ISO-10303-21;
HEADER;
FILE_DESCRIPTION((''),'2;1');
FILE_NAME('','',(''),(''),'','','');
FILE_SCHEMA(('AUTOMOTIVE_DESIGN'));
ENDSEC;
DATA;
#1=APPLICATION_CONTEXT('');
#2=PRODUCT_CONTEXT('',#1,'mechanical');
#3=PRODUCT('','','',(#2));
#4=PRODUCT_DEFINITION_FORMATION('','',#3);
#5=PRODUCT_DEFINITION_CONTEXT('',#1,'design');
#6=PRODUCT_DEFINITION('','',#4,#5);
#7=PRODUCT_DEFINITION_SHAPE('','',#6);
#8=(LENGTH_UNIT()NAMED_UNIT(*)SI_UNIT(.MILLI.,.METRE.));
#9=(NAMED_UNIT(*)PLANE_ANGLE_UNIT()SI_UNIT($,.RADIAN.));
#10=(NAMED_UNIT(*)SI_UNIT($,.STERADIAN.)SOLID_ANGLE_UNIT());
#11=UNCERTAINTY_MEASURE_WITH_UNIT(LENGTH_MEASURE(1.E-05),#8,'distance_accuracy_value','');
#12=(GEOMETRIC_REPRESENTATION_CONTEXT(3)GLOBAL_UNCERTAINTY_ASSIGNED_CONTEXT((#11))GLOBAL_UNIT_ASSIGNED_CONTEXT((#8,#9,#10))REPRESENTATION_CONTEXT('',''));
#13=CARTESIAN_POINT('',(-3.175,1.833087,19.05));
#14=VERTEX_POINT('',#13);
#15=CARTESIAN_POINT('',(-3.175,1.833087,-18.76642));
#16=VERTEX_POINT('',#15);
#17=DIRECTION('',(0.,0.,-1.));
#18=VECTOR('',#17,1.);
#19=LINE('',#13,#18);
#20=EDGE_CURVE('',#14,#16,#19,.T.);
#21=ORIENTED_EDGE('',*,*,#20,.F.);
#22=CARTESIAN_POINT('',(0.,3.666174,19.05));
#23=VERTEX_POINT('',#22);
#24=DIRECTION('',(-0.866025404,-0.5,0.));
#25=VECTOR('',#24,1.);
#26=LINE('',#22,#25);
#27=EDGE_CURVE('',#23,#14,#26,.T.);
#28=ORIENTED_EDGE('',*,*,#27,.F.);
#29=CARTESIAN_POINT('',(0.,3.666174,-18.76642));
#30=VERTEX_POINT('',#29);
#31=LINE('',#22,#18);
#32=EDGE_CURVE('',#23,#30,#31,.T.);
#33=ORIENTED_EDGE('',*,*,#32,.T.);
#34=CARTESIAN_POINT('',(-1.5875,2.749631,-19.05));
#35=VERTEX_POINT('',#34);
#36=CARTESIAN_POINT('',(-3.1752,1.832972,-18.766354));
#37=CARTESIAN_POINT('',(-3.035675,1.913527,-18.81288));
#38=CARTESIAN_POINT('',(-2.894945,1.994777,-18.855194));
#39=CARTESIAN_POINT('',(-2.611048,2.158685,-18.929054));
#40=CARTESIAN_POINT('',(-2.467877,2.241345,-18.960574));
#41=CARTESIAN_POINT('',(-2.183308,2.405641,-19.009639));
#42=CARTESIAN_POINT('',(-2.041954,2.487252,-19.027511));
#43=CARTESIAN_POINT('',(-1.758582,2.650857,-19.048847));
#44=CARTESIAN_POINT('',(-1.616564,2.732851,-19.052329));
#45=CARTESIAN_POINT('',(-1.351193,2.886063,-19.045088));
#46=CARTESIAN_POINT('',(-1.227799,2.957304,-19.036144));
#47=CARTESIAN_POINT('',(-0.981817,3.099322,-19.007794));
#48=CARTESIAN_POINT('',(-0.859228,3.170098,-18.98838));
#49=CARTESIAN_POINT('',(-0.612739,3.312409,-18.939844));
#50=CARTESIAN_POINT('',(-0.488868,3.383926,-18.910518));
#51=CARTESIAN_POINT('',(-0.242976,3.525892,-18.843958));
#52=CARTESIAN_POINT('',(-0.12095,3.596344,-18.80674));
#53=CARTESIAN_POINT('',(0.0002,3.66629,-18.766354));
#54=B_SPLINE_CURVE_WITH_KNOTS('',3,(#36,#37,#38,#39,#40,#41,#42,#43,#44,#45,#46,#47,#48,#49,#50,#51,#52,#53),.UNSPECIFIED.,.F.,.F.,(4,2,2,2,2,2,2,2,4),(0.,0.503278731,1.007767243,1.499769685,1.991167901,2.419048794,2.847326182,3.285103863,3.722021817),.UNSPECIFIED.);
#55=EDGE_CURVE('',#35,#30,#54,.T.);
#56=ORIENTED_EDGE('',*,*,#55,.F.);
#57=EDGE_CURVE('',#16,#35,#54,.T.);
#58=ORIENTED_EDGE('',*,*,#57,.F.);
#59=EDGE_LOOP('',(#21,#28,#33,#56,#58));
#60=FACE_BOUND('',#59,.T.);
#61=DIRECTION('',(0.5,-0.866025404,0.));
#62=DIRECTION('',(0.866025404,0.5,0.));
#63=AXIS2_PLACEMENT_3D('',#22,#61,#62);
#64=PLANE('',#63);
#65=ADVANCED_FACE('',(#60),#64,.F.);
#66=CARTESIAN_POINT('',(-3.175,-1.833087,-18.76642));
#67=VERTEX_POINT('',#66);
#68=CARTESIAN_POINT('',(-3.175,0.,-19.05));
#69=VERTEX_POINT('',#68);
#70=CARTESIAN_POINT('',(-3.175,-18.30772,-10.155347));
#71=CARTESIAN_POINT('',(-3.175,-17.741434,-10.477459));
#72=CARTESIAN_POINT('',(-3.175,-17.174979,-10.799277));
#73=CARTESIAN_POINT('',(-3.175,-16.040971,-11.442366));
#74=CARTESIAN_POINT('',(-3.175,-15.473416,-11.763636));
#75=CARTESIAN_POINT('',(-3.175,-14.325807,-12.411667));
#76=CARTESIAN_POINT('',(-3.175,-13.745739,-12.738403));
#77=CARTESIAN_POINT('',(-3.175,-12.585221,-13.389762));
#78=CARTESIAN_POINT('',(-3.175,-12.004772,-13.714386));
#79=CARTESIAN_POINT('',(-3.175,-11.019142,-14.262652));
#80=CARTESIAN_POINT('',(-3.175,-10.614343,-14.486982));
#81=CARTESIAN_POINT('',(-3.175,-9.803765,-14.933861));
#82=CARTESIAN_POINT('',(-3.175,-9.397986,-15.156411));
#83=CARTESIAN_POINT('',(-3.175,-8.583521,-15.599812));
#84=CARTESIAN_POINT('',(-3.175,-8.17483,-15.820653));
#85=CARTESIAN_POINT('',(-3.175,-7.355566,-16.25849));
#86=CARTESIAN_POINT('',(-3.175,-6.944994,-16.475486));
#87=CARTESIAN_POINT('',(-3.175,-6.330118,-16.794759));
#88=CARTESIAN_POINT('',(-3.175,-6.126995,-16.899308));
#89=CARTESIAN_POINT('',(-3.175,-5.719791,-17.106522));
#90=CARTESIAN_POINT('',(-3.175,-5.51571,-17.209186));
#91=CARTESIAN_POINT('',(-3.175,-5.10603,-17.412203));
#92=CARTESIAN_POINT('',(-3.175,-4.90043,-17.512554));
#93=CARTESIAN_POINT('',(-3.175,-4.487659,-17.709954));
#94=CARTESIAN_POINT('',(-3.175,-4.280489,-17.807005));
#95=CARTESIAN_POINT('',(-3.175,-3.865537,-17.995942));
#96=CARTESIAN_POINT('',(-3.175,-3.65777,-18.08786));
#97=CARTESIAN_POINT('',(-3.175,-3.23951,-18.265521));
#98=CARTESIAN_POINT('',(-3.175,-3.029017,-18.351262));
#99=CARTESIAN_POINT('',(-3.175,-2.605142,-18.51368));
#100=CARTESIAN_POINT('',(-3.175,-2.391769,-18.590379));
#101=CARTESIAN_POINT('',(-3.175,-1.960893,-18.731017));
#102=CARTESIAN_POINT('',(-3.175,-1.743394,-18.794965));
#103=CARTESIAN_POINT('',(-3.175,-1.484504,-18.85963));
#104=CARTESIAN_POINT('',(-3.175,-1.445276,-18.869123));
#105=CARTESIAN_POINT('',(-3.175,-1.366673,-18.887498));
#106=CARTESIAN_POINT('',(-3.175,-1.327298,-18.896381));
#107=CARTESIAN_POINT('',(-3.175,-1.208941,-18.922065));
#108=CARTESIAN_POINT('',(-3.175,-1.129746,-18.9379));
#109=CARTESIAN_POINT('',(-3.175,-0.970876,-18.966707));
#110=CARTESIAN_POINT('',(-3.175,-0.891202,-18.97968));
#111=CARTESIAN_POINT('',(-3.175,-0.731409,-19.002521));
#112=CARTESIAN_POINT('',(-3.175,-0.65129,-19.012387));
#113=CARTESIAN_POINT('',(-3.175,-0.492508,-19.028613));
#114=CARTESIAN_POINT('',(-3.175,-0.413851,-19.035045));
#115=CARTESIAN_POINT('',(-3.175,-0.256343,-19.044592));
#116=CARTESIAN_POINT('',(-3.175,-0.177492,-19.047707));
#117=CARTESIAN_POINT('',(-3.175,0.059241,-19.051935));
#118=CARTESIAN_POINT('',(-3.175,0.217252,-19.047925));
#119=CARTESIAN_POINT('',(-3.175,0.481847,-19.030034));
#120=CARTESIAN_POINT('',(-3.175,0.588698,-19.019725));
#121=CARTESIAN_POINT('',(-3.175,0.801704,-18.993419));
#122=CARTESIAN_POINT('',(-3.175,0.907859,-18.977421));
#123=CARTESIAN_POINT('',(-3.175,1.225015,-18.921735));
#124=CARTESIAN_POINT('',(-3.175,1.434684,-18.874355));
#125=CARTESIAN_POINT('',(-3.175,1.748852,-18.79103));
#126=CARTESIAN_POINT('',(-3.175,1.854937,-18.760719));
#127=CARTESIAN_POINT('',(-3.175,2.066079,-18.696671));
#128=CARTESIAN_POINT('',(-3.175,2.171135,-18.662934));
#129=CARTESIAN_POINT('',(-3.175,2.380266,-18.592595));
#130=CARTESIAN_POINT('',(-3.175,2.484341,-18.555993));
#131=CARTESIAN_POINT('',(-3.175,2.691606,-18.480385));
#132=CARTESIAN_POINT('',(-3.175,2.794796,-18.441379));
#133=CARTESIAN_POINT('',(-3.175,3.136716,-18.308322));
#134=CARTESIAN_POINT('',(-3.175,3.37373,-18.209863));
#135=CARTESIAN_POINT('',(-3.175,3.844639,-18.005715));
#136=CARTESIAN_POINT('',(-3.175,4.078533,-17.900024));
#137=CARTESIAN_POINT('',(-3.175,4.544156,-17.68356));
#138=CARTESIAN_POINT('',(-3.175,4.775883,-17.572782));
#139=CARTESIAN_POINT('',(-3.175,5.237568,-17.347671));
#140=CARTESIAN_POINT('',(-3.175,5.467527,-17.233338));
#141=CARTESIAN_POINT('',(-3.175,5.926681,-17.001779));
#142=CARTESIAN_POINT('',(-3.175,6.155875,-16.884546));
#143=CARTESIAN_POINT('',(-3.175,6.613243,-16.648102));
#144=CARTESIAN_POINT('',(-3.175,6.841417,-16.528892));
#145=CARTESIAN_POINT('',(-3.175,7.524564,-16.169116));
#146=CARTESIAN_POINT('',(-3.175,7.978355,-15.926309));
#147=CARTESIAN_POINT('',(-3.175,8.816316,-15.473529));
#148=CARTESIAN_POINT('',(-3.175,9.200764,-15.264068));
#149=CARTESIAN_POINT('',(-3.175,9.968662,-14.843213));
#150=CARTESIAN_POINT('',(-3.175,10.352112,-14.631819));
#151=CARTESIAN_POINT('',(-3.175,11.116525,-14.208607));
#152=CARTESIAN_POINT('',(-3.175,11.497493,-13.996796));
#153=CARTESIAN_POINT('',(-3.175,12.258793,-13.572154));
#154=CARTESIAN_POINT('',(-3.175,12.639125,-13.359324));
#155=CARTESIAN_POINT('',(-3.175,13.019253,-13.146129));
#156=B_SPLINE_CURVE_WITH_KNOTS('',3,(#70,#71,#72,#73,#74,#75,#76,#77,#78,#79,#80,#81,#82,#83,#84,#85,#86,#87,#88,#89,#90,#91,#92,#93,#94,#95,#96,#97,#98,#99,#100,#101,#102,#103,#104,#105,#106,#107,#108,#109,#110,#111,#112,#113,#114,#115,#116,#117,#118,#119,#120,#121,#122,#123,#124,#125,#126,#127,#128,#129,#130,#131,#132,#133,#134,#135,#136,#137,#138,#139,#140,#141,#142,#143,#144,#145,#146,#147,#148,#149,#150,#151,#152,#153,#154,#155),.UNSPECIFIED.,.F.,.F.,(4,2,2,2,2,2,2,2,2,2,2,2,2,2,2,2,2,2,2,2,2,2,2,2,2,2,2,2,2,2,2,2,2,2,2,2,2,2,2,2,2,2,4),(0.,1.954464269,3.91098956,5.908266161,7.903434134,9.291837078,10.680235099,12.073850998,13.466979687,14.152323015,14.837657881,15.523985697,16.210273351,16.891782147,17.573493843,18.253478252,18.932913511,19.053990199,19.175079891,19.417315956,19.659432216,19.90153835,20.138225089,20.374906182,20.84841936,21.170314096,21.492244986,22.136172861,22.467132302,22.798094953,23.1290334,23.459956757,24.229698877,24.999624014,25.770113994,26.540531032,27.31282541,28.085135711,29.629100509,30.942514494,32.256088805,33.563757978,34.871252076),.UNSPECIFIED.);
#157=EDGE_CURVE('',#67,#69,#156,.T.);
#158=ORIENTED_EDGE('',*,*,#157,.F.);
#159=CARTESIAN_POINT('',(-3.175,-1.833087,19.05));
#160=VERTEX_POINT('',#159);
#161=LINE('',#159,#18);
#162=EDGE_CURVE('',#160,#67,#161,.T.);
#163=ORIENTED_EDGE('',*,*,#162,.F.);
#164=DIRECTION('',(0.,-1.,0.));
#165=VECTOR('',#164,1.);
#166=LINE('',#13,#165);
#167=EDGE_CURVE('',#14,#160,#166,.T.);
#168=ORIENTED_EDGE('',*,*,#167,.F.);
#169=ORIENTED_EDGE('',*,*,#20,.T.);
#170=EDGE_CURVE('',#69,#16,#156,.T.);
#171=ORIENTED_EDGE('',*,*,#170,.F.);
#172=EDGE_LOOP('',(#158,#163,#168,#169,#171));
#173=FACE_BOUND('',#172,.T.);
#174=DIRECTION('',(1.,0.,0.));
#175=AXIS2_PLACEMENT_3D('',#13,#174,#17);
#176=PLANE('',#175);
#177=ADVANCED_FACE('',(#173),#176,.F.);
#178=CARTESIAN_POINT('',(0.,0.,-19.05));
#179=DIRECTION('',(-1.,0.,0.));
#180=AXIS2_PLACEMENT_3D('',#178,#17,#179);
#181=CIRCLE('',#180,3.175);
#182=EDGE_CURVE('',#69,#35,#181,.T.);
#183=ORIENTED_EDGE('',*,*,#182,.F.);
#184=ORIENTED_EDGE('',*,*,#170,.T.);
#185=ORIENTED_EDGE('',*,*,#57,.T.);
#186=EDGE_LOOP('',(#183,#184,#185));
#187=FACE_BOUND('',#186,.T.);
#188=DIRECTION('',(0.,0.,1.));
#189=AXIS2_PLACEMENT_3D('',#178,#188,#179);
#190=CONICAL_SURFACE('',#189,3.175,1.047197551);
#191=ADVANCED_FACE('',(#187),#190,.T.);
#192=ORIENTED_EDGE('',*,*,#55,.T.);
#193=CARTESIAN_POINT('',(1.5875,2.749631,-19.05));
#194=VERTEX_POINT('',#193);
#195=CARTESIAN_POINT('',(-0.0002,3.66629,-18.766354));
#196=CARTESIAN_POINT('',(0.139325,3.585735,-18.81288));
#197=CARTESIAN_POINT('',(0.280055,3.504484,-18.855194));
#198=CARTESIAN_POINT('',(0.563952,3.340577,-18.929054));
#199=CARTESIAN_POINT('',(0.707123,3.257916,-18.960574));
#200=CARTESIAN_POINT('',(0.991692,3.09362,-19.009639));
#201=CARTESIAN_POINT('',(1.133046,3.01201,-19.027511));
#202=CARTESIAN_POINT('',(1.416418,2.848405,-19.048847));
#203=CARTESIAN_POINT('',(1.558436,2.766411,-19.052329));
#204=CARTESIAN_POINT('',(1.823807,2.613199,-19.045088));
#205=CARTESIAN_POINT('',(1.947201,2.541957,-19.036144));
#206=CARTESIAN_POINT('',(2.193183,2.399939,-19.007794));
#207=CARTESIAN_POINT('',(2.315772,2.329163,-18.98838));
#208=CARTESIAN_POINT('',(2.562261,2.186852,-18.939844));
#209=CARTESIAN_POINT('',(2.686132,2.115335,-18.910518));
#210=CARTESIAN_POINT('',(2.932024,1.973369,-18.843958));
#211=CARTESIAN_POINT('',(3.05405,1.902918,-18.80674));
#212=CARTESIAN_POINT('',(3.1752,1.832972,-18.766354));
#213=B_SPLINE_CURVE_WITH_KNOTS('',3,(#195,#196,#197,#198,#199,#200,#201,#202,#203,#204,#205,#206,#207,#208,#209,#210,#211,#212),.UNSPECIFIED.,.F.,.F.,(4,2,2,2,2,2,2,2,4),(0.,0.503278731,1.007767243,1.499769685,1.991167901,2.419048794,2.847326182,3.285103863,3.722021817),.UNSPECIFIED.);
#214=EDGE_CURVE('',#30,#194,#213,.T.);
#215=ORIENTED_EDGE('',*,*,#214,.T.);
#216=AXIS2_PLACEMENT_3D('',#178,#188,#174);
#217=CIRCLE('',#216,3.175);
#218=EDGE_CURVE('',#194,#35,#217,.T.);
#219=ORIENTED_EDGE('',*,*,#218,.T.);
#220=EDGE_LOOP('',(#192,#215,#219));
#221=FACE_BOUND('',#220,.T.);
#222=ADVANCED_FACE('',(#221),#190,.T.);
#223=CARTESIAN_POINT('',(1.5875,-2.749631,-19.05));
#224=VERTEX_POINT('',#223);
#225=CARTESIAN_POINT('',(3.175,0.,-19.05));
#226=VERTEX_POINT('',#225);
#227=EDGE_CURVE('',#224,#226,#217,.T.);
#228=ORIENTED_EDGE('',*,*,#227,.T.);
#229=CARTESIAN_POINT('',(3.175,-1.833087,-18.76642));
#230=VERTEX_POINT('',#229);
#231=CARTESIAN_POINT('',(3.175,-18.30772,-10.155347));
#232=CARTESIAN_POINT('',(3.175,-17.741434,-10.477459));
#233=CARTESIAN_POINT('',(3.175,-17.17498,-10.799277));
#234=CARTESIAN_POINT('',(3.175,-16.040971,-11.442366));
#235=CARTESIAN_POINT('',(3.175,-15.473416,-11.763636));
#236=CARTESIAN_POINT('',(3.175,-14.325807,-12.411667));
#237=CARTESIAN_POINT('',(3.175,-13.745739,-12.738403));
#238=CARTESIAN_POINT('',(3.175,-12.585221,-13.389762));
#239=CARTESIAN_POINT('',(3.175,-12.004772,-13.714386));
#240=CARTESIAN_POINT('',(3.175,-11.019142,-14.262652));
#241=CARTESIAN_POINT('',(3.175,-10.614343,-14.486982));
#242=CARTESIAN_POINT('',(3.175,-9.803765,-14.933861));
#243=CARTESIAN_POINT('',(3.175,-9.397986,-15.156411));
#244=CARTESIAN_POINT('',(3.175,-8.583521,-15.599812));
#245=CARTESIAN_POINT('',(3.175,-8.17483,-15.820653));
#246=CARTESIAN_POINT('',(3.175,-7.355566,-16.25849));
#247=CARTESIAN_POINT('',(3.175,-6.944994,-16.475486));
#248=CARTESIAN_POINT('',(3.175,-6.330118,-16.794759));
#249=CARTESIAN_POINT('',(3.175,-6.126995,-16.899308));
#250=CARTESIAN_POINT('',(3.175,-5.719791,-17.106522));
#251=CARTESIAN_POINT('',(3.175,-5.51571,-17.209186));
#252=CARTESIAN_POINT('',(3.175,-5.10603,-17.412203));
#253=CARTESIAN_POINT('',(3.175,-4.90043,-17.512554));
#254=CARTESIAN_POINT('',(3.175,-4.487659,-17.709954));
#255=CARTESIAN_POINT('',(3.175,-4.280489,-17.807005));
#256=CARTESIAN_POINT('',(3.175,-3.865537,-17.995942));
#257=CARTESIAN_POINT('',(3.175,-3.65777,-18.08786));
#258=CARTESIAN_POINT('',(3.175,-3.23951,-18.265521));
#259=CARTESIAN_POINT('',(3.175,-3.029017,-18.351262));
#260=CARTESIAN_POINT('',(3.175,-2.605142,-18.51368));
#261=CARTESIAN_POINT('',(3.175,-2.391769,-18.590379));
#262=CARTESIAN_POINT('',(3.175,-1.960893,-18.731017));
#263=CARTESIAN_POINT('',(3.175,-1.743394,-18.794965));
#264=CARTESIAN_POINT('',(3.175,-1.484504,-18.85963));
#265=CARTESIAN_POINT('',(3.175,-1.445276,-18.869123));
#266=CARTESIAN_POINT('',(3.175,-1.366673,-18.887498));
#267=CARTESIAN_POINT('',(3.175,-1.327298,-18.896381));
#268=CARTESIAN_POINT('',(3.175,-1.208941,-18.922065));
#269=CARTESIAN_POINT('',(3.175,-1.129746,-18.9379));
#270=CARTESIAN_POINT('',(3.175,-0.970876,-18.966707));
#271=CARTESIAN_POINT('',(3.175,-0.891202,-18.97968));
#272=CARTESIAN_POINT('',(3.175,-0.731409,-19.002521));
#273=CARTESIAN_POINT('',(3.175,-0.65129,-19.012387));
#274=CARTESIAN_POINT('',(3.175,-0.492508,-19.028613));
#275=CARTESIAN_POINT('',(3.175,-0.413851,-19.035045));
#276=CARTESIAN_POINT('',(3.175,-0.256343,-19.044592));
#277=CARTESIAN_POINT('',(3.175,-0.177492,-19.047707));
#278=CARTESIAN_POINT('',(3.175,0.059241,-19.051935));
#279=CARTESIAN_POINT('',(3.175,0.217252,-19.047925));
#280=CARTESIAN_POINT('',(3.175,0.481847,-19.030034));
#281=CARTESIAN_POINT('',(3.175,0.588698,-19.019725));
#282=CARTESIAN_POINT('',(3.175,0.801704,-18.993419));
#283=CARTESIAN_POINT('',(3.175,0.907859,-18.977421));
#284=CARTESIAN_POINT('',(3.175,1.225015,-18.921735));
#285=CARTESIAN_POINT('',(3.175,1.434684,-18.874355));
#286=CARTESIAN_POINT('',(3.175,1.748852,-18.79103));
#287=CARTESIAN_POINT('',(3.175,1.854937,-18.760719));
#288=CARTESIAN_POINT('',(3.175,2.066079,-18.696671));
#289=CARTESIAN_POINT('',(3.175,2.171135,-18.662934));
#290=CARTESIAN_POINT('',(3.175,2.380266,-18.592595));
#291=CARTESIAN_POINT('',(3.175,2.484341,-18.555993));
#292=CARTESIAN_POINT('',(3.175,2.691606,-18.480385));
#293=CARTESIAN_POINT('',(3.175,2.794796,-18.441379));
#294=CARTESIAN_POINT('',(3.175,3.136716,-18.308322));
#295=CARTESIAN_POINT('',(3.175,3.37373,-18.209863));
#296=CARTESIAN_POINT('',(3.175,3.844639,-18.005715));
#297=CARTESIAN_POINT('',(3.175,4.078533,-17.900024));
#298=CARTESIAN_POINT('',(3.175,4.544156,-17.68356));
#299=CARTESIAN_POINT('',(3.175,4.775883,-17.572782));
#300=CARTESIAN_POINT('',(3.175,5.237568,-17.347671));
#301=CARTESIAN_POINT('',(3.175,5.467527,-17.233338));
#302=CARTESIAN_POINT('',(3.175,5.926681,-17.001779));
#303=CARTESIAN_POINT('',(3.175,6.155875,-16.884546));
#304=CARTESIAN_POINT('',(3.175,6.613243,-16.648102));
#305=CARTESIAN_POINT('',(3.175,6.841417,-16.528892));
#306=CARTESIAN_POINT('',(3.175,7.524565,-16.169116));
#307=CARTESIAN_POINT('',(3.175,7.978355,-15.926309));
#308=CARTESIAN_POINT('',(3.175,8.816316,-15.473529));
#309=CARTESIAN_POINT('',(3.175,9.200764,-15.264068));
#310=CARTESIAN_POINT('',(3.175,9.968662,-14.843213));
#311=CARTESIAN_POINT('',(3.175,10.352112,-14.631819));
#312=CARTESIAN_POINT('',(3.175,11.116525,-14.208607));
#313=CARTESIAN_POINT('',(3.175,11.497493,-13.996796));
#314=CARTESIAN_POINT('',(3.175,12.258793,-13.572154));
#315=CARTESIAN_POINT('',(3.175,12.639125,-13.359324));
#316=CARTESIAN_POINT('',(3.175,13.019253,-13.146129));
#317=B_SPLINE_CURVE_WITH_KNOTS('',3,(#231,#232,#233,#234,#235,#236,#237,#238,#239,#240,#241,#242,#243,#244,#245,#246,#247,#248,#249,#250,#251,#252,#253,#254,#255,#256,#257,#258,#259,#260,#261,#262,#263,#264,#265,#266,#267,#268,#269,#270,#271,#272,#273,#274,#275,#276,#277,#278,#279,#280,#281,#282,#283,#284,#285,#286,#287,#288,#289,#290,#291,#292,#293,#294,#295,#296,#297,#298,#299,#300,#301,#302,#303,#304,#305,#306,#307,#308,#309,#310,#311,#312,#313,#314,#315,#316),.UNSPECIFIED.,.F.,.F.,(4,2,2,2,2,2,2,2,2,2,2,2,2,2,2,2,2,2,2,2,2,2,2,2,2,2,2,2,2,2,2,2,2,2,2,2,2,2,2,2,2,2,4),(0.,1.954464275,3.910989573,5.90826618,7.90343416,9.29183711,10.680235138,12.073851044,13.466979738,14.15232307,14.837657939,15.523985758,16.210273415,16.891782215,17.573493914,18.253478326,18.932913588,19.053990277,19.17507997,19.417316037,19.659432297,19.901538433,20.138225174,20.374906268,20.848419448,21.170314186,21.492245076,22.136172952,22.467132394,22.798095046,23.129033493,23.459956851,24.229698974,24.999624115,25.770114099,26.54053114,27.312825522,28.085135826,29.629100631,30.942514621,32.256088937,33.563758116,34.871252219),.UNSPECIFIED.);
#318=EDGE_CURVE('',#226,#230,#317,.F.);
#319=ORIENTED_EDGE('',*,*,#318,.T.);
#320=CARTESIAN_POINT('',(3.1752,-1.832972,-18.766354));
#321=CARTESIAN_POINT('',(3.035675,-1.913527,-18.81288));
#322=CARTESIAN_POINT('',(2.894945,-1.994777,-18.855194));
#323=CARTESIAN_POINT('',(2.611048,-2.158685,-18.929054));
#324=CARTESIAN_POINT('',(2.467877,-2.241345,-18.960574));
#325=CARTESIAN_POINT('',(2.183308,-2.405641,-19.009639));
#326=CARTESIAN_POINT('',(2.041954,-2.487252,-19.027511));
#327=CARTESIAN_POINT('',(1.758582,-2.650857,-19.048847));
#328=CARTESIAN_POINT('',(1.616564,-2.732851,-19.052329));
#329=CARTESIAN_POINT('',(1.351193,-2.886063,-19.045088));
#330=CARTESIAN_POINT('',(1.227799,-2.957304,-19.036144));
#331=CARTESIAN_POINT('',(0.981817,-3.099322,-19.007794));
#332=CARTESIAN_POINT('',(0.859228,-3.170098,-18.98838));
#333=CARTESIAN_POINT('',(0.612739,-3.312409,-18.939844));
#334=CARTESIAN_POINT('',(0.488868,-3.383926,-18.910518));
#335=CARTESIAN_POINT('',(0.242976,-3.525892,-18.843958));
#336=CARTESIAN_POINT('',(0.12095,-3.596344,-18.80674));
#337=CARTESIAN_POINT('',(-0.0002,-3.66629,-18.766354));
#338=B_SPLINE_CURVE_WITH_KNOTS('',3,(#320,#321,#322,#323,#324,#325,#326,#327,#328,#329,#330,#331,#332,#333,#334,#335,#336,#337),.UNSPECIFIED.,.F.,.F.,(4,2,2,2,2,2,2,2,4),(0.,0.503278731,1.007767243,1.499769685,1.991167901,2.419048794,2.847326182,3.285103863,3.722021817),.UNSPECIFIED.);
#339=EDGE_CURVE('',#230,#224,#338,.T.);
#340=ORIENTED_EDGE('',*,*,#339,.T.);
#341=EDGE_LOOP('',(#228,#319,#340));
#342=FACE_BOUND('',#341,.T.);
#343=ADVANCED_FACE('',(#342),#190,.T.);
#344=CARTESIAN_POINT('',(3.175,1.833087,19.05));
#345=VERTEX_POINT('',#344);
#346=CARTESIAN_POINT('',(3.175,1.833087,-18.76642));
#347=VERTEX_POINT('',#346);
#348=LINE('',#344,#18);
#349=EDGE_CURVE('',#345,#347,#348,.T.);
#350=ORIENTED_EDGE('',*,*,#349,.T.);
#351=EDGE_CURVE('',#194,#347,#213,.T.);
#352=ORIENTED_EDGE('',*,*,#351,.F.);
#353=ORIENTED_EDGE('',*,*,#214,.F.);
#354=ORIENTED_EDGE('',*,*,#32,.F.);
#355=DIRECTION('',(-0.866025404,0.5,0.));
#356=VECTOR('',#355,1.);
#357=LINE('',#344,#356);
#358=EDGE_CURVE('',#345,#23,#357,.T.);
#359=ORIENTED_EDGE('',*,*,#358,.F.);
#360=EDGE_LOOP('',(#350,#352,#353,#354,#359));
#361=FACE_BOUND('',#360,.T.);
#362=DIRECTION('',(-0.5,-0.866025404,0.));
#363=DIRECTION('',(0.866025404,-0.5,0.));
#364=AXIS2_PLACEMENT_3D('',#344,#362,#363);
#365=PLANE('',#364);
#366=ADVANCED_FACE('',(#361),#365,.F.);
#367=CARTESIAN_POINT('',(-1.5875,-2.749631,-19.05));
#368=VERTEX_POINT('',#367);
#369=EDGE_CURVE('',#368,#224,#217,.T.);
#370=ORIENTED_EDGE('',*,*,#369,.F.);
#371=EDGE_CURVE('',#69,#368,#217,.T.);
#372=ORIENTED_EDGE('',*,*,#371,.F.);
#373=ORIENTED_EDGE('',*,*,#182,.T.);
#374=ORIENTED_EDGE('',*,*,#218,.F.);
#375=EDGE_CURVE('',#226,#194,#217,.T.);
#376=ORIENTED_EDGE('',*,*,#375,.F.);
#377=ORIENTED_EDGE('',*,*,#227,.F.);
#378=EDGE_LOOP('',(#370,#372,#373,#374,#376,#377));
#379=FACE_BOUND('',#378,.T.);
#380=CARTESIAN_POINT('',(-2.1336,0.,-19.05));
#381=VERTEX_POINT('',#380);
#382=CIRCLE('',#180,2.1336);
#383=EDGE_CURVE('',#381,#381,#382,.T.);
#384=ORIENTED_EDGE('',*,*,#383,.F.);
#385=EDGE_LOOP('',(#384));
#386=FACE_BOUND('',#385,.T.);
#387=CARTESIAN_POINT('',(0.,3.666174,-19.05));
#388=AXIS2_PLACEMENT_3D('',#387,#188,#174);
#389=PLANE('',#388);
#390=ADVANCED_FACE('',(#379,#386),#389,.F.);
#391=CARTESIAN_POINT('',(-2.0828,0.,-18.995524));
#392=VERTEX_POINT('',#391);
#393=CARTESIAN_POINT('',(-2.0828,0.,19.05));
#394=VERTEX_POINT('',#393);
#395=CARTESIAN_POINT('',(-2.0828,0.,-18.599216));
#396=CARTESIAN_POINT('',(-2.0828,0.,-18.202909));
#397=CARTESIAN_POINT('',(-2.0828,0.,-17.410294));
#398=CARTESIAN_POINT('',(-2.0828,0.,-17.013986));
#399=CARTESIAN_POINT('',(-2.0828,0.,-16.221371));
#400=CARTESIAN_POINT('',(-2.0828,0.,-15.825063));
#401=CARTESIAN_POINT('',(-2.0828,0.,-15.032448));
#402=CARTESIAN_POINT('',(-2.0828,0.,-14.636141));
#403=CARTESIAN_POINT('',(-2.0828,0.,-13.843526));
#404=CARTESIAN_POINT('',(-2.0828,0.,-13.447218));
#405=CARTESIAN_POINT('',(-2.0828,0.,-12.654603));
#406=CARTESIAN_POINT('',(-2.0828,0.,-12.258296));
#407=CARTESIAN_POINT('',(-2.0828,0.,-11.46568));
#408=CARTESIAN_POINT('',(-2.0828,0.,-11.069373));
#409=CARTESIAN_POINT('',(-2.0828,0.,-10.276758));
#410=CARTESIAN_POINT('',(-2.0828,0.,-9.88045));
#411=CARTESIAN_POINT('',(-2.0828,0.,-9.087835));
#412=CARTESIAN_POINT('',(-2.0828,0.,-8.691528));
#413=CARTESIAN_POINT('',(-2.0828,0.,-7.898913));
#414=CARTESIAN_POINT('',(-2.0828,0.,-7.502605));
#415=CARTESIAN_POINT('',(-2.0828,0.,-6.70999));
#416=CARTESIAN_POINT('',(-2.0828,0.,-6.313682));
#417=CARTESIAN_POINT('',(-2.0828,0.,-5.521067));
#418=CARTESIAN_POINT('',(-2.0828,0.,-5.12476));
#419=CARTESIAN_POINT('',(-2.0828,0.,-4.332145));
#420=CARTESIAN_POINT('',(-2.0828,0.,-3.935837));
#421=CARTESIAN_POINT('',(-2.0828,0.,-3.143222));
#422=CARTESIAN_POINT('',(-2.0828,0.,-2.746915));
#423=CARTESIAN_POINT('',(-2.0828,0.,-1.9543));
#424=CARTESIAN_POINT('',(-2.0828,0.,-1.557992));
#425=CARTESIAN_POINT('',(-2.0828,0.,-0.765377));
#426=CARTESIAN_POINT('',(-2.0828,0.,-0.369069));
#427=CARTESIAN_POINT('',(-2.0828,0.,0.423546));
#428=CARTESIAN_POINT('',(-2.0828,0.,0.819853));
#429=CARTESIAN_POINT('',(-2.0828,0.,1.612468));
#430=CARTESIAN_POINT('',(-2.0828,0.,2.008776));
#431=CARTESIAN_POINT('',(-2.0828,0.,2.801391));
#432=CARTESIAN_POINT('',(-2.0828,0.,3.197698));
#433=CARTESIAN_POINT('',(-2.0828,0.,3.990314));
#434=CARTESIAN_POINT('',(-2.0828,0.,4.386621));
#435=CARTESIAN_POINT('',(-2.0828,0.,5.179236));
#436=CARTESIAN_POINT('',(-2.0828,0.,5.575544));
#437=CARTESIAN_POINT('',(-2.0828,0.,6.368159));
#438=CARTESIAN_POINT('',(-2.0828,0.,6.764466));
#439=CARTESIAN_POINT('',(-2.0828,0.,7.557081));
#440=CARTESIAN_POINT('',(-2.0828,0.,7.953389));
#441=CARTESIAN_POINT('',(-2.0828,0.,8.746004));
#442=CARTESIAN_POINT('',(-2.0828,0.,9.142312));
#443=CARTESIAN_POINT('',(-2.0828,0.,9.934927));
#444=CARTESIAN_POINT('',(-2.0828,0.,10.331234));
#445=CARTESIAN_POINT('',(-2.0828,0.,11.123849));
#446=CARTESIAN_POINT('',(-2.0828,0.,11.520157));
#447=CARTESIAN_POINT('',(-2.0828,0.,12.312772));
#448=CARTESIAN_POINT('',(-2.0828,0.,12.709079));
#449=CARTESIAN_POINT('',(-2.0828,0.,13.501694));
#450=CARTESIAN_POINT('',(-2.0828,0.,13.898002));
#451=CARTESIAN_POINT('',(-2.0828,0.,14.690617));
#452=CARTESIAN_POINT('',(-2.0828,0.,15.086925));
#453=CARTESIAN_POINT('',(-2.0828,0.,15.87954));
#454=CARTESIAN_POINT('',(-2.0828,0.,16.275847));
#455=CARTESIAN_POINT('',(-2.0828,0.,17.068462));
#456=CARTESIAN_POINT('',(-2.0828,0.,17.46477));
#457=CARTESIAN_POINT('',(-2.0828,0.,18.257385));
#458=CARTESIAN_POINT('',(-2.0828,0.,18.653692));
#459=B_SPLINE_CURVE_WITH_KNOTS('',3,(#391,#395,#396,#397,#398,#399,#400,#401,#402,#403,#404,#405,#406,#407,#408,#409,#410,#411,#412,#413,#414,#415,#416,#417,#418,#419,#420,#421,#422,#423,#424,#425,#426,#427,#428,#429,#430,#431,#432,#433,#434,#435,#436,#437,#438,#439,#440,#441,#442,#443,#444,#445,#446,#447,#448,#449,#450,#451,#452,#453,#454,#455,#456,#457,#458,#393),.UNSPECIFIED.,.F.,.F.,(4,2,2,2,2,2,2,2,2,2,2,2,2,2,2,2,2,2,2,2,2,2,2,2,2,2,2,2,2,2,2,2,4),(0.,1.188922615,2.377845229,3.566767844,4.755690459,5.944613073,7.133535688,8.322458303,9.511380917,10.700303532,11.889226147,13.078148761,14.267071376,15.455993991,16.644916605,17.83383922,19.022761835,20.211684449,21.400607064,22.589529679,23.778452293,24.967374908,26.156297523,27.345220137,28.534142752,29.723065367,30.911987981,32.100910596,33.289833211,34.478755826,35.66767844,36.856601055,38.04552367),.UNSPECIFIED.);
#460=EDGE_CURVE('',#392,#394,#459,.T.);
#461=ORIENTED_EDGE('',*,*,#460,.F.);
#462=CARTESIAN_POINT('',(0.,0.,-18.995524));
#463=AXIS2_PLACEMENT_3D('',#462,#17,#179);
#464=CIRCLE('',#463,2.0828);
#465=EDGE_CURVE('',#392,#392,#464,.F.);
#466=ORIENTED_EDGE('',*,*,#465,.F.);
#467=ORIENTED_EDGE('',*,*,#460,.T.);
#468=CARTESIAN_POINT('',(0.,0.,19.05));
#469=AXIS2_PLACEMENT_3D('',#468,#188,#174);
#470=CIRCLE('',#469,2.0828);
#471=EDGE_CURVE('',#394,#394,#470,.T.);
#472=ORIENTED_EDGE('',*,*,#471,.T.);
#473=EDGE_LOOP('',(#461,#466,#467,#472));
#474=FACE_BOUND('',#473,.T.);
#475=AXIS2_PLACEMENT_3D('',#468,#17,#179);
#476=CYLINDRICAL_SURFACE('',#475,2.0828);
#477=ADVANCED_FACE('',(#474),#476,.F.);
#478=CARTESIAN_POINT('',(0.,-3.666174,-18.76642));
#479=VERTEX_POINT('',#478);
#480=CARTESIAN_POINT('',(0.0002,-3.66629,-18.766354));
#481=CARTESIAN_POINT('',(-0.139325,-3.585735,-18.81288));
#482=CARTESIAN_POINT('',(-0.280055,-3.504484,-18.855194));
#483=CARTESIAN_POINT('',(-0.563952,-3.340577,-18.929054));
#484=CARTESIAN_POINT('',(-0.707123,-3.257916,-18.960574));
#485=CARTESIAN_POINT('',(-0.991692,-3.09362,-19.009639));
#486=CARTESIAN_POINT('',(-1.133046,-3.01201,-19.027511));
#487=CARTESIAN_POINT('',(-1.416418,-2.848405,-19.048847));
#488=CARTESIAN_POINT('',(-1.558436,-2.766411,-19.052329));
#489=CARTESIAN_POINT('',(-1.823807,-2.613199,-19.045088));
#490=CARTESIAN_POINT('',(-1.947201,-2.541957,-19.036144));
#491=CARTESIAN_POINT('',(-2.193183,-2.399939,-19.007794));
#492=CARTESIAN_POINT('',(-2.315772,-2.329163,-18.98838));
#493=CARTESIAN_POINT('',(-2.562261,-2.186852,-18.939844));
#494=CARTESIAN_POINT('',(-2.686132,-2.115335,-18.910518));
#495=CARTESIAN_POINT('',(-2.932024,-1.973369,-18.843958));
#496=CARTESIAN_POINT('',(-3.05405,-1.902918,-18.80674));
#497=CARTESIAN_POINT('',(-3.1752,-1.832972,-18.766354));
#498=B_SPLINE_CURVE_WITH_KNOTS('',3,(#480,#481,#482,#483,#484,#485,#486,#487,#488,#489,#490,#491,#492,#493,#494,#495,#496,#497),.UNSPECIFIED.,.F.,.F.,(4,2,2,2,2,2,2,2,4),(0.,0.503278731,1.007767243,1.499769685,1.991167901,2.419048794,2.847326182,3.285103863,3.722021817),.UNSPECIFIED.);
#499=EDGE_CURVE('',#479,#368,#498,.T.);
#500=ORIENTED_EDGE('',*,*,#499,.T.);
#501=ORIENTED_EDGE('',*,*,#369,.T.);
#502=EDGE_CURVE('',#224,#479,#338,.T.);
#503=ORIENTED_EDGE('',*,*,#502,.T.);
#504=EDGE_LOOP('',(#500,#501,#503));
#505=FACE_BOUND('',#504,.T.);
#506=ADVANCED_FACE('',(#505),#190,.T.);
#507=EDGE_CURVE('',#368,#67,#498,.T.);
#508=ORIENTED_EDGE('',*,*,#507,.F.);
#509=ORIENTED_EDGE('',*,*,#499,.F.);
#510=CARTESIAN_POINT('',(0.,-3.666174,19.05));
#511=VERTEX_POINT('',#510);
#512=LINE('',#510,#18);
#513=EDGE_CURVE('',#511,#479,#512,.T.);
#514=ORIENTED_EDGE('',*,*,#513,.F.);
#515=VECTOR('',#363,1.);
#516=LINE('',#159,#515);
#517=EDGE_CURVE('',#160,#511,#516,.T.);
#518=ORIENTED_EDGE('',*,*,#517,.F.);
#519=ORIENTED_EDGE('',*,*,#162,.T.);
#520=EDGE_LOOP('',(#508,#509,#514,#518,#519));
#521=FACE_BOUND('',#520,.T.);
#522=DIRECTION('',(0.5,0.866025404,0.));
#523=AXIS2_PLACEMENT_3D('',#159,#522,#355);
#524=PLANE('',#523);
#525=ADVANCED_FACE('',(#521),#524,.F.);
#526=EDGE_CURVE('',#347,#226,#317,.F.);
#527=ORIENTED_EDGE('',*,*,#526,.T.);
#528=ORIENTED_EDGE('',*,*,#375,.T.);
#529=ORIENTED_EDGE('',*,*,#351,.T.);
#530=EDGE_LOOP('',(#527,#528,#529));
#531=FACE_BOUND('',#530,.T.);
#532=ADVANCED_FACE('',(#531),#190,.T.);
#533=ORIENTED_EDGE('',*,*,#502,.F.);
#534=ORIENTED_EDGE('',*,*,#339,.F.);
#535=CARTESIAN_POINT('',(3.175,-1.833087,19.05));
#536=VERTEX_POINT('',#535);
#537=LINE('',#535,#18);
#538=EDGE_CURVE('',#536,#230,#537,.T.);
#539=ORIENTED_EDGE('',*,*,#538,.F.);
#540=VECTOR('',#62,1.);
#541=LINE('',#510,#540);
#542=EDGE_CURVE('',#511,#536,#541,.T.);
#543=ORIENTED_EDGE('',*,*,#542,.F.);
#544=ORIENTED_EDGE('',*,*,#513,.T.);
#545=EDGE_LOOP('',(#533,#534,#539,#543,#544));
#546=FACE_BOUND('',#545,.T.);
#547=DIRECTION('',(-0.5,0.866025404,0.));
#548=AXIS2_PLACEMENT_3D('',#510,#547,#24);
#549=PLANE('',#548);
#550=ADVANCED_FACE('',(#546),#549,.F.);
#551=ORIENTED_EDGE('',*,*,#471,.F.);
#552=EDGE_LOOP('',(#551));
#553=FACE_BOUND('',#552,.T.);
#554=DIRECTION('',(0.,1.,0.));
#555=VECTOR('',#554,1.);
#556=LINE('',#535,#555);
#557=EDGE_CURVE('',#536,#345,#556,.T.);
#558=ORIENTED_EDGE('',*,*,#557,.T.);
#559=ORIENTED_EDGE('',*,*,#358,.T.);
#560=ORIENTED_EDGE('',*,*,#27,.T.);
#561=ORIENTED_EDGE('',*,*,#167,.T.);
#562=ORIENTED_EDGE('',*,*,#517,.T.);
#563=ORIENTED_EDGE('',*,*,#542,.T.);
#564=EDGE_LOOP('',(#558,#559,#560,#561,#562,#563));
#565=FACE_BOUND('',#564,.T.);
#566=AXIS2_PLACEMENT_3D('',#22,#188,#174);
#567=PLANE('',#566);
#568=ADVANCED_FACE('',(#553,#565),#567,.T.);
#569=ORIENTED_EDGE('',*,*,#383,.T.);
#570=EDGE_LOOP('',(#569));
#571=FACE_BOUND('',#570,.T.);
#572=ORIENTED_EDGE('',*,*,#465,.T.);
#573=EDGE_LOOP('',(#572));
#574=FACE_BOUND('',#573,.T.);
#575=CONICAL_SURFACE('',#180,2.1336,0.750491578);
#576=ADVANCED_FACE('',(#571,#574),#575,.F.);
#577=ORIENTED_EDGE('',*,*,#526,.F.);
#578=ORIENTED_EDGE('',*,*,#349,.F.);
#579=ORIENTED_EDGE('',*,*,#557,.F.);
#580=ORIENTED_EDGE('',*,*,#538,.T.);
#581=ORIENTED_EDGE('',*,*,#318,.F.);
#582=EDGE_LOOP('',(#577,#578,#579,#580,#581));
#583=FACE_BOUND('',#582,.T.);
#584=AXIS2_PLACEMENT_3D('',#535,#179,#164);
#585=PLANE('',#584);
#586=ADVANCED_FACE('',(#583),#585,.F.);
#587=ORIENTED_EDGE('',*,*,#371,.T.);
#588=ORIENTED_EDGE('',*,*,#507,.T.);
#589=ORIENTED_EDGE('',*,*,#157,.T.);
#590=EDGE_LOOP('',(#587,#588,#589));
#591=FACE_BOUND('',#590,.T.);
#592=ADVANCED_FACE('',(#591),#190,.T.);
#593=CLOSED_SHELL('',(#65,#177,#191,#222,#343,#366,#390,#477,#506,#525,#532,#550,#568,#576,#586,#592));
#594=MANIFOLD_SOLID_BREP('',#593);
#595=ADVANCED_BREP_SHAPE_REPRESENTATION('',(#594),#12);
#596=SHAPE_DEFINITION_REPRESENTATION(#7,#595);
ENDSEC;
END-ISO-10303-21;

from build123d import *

# Parameters (mm, degrees)
EXTRUDE1_DEPTH      = 19.05
EXTRUDE1_DEPTH_BACK = 19.05
SKETCH1_R           = 2.0828
SKETCH8_OUTSIDE_W   = 152.724
SKETCH8_OUTSIDE_H   = 153.706
SKETCH8_OUTSIDE_R   = 3.175
EXTRUDE4_DEPTH      = 39.407440143
EXTRUDE4_DRAFT      = -60


with BuildPart() as part:
    # Sketch1 → Extrude1 (new, two sides: drawn at the far end of the back side and taken through both)
    with BuildSketch(Plane.XY.offset(-EXTRUDE1_DEPTH_BACK)):
        Polygon((0, 3.666174209), (-3.175, 1.833087105), (-3.175, -1.833087105), (0, -3.666174209), (3.175, -1.833087105), (3.175, 1.833087105), align=None)
        with Locations(Location((0, 0, 0), (0, 0, 180))):
            Circle(SKETCH1_R, mode=Mode.SUBTRACT)
    extrude(amount=EXTRUDE1_DEPTH + EXTRUDE1_DEPTH_BACK)

    # Extrude3 cone 1 section (through the dimple's axis) → Extrude3 (revolve, cut)
    with BuildSketch(Plane(origin=(0, 0, -19.05), x_dir=(0, 1, 0), z_dir=(1, 0, 0))):
        Polygon((0, 0), (2.1336, 0), (0, 2.28800588), align=None)
    revolve(axis=Axis((0, 0, -19.05), (0, 0, 1)), mode=Mode.SUBTRACT)


with BuildPart() as extrude4_tool:
    # Sketch8 outside → Extrude4 (with draft: the straight prism first)
    with BuildSketch(Plane(origin=(0, 0, -19.05), x_dir=(-1, 0, 0), z_dir=(0, 0, -1))):
        Rectangle(SKETCH8_OUTSIDE_W, SKETCH8_OUTSIDE_H)
        Circle(SKETCH8_OUTSIDE_R, mode=Mode.SUBTRACT)
    extrude(amount=-EXTRUDE4_DEPTH)
    # Extrude4: the draft: its side faces are tilted about the plane it starts from
    extrude4_sides = [extrude4_tool.faces().sort_by_distance(p)[0] for p in [
        (0, -76.853, 0.653720071),
        (-76.362, 0, 0.653720071),
        (0, 76.853, 0.653720071),
        (76.362, 0, 0.653720071),
        (3.175, 0, 0.653720071),
    ]]
    draft(extrude4_sides, Plane(origin=(0, 0, -19.05), x_dir=(-1, 0, 0), z_dir=(0, 0, -1)), EXTRUDE4_DRAFT)


with BuildPart() as part_1:
    add(part.part)

    # Extrude4: cut by extrude4_tool
    add(extrude4_tool.part, mode=Mode.SUBTRACT)


solid = part_1.part
